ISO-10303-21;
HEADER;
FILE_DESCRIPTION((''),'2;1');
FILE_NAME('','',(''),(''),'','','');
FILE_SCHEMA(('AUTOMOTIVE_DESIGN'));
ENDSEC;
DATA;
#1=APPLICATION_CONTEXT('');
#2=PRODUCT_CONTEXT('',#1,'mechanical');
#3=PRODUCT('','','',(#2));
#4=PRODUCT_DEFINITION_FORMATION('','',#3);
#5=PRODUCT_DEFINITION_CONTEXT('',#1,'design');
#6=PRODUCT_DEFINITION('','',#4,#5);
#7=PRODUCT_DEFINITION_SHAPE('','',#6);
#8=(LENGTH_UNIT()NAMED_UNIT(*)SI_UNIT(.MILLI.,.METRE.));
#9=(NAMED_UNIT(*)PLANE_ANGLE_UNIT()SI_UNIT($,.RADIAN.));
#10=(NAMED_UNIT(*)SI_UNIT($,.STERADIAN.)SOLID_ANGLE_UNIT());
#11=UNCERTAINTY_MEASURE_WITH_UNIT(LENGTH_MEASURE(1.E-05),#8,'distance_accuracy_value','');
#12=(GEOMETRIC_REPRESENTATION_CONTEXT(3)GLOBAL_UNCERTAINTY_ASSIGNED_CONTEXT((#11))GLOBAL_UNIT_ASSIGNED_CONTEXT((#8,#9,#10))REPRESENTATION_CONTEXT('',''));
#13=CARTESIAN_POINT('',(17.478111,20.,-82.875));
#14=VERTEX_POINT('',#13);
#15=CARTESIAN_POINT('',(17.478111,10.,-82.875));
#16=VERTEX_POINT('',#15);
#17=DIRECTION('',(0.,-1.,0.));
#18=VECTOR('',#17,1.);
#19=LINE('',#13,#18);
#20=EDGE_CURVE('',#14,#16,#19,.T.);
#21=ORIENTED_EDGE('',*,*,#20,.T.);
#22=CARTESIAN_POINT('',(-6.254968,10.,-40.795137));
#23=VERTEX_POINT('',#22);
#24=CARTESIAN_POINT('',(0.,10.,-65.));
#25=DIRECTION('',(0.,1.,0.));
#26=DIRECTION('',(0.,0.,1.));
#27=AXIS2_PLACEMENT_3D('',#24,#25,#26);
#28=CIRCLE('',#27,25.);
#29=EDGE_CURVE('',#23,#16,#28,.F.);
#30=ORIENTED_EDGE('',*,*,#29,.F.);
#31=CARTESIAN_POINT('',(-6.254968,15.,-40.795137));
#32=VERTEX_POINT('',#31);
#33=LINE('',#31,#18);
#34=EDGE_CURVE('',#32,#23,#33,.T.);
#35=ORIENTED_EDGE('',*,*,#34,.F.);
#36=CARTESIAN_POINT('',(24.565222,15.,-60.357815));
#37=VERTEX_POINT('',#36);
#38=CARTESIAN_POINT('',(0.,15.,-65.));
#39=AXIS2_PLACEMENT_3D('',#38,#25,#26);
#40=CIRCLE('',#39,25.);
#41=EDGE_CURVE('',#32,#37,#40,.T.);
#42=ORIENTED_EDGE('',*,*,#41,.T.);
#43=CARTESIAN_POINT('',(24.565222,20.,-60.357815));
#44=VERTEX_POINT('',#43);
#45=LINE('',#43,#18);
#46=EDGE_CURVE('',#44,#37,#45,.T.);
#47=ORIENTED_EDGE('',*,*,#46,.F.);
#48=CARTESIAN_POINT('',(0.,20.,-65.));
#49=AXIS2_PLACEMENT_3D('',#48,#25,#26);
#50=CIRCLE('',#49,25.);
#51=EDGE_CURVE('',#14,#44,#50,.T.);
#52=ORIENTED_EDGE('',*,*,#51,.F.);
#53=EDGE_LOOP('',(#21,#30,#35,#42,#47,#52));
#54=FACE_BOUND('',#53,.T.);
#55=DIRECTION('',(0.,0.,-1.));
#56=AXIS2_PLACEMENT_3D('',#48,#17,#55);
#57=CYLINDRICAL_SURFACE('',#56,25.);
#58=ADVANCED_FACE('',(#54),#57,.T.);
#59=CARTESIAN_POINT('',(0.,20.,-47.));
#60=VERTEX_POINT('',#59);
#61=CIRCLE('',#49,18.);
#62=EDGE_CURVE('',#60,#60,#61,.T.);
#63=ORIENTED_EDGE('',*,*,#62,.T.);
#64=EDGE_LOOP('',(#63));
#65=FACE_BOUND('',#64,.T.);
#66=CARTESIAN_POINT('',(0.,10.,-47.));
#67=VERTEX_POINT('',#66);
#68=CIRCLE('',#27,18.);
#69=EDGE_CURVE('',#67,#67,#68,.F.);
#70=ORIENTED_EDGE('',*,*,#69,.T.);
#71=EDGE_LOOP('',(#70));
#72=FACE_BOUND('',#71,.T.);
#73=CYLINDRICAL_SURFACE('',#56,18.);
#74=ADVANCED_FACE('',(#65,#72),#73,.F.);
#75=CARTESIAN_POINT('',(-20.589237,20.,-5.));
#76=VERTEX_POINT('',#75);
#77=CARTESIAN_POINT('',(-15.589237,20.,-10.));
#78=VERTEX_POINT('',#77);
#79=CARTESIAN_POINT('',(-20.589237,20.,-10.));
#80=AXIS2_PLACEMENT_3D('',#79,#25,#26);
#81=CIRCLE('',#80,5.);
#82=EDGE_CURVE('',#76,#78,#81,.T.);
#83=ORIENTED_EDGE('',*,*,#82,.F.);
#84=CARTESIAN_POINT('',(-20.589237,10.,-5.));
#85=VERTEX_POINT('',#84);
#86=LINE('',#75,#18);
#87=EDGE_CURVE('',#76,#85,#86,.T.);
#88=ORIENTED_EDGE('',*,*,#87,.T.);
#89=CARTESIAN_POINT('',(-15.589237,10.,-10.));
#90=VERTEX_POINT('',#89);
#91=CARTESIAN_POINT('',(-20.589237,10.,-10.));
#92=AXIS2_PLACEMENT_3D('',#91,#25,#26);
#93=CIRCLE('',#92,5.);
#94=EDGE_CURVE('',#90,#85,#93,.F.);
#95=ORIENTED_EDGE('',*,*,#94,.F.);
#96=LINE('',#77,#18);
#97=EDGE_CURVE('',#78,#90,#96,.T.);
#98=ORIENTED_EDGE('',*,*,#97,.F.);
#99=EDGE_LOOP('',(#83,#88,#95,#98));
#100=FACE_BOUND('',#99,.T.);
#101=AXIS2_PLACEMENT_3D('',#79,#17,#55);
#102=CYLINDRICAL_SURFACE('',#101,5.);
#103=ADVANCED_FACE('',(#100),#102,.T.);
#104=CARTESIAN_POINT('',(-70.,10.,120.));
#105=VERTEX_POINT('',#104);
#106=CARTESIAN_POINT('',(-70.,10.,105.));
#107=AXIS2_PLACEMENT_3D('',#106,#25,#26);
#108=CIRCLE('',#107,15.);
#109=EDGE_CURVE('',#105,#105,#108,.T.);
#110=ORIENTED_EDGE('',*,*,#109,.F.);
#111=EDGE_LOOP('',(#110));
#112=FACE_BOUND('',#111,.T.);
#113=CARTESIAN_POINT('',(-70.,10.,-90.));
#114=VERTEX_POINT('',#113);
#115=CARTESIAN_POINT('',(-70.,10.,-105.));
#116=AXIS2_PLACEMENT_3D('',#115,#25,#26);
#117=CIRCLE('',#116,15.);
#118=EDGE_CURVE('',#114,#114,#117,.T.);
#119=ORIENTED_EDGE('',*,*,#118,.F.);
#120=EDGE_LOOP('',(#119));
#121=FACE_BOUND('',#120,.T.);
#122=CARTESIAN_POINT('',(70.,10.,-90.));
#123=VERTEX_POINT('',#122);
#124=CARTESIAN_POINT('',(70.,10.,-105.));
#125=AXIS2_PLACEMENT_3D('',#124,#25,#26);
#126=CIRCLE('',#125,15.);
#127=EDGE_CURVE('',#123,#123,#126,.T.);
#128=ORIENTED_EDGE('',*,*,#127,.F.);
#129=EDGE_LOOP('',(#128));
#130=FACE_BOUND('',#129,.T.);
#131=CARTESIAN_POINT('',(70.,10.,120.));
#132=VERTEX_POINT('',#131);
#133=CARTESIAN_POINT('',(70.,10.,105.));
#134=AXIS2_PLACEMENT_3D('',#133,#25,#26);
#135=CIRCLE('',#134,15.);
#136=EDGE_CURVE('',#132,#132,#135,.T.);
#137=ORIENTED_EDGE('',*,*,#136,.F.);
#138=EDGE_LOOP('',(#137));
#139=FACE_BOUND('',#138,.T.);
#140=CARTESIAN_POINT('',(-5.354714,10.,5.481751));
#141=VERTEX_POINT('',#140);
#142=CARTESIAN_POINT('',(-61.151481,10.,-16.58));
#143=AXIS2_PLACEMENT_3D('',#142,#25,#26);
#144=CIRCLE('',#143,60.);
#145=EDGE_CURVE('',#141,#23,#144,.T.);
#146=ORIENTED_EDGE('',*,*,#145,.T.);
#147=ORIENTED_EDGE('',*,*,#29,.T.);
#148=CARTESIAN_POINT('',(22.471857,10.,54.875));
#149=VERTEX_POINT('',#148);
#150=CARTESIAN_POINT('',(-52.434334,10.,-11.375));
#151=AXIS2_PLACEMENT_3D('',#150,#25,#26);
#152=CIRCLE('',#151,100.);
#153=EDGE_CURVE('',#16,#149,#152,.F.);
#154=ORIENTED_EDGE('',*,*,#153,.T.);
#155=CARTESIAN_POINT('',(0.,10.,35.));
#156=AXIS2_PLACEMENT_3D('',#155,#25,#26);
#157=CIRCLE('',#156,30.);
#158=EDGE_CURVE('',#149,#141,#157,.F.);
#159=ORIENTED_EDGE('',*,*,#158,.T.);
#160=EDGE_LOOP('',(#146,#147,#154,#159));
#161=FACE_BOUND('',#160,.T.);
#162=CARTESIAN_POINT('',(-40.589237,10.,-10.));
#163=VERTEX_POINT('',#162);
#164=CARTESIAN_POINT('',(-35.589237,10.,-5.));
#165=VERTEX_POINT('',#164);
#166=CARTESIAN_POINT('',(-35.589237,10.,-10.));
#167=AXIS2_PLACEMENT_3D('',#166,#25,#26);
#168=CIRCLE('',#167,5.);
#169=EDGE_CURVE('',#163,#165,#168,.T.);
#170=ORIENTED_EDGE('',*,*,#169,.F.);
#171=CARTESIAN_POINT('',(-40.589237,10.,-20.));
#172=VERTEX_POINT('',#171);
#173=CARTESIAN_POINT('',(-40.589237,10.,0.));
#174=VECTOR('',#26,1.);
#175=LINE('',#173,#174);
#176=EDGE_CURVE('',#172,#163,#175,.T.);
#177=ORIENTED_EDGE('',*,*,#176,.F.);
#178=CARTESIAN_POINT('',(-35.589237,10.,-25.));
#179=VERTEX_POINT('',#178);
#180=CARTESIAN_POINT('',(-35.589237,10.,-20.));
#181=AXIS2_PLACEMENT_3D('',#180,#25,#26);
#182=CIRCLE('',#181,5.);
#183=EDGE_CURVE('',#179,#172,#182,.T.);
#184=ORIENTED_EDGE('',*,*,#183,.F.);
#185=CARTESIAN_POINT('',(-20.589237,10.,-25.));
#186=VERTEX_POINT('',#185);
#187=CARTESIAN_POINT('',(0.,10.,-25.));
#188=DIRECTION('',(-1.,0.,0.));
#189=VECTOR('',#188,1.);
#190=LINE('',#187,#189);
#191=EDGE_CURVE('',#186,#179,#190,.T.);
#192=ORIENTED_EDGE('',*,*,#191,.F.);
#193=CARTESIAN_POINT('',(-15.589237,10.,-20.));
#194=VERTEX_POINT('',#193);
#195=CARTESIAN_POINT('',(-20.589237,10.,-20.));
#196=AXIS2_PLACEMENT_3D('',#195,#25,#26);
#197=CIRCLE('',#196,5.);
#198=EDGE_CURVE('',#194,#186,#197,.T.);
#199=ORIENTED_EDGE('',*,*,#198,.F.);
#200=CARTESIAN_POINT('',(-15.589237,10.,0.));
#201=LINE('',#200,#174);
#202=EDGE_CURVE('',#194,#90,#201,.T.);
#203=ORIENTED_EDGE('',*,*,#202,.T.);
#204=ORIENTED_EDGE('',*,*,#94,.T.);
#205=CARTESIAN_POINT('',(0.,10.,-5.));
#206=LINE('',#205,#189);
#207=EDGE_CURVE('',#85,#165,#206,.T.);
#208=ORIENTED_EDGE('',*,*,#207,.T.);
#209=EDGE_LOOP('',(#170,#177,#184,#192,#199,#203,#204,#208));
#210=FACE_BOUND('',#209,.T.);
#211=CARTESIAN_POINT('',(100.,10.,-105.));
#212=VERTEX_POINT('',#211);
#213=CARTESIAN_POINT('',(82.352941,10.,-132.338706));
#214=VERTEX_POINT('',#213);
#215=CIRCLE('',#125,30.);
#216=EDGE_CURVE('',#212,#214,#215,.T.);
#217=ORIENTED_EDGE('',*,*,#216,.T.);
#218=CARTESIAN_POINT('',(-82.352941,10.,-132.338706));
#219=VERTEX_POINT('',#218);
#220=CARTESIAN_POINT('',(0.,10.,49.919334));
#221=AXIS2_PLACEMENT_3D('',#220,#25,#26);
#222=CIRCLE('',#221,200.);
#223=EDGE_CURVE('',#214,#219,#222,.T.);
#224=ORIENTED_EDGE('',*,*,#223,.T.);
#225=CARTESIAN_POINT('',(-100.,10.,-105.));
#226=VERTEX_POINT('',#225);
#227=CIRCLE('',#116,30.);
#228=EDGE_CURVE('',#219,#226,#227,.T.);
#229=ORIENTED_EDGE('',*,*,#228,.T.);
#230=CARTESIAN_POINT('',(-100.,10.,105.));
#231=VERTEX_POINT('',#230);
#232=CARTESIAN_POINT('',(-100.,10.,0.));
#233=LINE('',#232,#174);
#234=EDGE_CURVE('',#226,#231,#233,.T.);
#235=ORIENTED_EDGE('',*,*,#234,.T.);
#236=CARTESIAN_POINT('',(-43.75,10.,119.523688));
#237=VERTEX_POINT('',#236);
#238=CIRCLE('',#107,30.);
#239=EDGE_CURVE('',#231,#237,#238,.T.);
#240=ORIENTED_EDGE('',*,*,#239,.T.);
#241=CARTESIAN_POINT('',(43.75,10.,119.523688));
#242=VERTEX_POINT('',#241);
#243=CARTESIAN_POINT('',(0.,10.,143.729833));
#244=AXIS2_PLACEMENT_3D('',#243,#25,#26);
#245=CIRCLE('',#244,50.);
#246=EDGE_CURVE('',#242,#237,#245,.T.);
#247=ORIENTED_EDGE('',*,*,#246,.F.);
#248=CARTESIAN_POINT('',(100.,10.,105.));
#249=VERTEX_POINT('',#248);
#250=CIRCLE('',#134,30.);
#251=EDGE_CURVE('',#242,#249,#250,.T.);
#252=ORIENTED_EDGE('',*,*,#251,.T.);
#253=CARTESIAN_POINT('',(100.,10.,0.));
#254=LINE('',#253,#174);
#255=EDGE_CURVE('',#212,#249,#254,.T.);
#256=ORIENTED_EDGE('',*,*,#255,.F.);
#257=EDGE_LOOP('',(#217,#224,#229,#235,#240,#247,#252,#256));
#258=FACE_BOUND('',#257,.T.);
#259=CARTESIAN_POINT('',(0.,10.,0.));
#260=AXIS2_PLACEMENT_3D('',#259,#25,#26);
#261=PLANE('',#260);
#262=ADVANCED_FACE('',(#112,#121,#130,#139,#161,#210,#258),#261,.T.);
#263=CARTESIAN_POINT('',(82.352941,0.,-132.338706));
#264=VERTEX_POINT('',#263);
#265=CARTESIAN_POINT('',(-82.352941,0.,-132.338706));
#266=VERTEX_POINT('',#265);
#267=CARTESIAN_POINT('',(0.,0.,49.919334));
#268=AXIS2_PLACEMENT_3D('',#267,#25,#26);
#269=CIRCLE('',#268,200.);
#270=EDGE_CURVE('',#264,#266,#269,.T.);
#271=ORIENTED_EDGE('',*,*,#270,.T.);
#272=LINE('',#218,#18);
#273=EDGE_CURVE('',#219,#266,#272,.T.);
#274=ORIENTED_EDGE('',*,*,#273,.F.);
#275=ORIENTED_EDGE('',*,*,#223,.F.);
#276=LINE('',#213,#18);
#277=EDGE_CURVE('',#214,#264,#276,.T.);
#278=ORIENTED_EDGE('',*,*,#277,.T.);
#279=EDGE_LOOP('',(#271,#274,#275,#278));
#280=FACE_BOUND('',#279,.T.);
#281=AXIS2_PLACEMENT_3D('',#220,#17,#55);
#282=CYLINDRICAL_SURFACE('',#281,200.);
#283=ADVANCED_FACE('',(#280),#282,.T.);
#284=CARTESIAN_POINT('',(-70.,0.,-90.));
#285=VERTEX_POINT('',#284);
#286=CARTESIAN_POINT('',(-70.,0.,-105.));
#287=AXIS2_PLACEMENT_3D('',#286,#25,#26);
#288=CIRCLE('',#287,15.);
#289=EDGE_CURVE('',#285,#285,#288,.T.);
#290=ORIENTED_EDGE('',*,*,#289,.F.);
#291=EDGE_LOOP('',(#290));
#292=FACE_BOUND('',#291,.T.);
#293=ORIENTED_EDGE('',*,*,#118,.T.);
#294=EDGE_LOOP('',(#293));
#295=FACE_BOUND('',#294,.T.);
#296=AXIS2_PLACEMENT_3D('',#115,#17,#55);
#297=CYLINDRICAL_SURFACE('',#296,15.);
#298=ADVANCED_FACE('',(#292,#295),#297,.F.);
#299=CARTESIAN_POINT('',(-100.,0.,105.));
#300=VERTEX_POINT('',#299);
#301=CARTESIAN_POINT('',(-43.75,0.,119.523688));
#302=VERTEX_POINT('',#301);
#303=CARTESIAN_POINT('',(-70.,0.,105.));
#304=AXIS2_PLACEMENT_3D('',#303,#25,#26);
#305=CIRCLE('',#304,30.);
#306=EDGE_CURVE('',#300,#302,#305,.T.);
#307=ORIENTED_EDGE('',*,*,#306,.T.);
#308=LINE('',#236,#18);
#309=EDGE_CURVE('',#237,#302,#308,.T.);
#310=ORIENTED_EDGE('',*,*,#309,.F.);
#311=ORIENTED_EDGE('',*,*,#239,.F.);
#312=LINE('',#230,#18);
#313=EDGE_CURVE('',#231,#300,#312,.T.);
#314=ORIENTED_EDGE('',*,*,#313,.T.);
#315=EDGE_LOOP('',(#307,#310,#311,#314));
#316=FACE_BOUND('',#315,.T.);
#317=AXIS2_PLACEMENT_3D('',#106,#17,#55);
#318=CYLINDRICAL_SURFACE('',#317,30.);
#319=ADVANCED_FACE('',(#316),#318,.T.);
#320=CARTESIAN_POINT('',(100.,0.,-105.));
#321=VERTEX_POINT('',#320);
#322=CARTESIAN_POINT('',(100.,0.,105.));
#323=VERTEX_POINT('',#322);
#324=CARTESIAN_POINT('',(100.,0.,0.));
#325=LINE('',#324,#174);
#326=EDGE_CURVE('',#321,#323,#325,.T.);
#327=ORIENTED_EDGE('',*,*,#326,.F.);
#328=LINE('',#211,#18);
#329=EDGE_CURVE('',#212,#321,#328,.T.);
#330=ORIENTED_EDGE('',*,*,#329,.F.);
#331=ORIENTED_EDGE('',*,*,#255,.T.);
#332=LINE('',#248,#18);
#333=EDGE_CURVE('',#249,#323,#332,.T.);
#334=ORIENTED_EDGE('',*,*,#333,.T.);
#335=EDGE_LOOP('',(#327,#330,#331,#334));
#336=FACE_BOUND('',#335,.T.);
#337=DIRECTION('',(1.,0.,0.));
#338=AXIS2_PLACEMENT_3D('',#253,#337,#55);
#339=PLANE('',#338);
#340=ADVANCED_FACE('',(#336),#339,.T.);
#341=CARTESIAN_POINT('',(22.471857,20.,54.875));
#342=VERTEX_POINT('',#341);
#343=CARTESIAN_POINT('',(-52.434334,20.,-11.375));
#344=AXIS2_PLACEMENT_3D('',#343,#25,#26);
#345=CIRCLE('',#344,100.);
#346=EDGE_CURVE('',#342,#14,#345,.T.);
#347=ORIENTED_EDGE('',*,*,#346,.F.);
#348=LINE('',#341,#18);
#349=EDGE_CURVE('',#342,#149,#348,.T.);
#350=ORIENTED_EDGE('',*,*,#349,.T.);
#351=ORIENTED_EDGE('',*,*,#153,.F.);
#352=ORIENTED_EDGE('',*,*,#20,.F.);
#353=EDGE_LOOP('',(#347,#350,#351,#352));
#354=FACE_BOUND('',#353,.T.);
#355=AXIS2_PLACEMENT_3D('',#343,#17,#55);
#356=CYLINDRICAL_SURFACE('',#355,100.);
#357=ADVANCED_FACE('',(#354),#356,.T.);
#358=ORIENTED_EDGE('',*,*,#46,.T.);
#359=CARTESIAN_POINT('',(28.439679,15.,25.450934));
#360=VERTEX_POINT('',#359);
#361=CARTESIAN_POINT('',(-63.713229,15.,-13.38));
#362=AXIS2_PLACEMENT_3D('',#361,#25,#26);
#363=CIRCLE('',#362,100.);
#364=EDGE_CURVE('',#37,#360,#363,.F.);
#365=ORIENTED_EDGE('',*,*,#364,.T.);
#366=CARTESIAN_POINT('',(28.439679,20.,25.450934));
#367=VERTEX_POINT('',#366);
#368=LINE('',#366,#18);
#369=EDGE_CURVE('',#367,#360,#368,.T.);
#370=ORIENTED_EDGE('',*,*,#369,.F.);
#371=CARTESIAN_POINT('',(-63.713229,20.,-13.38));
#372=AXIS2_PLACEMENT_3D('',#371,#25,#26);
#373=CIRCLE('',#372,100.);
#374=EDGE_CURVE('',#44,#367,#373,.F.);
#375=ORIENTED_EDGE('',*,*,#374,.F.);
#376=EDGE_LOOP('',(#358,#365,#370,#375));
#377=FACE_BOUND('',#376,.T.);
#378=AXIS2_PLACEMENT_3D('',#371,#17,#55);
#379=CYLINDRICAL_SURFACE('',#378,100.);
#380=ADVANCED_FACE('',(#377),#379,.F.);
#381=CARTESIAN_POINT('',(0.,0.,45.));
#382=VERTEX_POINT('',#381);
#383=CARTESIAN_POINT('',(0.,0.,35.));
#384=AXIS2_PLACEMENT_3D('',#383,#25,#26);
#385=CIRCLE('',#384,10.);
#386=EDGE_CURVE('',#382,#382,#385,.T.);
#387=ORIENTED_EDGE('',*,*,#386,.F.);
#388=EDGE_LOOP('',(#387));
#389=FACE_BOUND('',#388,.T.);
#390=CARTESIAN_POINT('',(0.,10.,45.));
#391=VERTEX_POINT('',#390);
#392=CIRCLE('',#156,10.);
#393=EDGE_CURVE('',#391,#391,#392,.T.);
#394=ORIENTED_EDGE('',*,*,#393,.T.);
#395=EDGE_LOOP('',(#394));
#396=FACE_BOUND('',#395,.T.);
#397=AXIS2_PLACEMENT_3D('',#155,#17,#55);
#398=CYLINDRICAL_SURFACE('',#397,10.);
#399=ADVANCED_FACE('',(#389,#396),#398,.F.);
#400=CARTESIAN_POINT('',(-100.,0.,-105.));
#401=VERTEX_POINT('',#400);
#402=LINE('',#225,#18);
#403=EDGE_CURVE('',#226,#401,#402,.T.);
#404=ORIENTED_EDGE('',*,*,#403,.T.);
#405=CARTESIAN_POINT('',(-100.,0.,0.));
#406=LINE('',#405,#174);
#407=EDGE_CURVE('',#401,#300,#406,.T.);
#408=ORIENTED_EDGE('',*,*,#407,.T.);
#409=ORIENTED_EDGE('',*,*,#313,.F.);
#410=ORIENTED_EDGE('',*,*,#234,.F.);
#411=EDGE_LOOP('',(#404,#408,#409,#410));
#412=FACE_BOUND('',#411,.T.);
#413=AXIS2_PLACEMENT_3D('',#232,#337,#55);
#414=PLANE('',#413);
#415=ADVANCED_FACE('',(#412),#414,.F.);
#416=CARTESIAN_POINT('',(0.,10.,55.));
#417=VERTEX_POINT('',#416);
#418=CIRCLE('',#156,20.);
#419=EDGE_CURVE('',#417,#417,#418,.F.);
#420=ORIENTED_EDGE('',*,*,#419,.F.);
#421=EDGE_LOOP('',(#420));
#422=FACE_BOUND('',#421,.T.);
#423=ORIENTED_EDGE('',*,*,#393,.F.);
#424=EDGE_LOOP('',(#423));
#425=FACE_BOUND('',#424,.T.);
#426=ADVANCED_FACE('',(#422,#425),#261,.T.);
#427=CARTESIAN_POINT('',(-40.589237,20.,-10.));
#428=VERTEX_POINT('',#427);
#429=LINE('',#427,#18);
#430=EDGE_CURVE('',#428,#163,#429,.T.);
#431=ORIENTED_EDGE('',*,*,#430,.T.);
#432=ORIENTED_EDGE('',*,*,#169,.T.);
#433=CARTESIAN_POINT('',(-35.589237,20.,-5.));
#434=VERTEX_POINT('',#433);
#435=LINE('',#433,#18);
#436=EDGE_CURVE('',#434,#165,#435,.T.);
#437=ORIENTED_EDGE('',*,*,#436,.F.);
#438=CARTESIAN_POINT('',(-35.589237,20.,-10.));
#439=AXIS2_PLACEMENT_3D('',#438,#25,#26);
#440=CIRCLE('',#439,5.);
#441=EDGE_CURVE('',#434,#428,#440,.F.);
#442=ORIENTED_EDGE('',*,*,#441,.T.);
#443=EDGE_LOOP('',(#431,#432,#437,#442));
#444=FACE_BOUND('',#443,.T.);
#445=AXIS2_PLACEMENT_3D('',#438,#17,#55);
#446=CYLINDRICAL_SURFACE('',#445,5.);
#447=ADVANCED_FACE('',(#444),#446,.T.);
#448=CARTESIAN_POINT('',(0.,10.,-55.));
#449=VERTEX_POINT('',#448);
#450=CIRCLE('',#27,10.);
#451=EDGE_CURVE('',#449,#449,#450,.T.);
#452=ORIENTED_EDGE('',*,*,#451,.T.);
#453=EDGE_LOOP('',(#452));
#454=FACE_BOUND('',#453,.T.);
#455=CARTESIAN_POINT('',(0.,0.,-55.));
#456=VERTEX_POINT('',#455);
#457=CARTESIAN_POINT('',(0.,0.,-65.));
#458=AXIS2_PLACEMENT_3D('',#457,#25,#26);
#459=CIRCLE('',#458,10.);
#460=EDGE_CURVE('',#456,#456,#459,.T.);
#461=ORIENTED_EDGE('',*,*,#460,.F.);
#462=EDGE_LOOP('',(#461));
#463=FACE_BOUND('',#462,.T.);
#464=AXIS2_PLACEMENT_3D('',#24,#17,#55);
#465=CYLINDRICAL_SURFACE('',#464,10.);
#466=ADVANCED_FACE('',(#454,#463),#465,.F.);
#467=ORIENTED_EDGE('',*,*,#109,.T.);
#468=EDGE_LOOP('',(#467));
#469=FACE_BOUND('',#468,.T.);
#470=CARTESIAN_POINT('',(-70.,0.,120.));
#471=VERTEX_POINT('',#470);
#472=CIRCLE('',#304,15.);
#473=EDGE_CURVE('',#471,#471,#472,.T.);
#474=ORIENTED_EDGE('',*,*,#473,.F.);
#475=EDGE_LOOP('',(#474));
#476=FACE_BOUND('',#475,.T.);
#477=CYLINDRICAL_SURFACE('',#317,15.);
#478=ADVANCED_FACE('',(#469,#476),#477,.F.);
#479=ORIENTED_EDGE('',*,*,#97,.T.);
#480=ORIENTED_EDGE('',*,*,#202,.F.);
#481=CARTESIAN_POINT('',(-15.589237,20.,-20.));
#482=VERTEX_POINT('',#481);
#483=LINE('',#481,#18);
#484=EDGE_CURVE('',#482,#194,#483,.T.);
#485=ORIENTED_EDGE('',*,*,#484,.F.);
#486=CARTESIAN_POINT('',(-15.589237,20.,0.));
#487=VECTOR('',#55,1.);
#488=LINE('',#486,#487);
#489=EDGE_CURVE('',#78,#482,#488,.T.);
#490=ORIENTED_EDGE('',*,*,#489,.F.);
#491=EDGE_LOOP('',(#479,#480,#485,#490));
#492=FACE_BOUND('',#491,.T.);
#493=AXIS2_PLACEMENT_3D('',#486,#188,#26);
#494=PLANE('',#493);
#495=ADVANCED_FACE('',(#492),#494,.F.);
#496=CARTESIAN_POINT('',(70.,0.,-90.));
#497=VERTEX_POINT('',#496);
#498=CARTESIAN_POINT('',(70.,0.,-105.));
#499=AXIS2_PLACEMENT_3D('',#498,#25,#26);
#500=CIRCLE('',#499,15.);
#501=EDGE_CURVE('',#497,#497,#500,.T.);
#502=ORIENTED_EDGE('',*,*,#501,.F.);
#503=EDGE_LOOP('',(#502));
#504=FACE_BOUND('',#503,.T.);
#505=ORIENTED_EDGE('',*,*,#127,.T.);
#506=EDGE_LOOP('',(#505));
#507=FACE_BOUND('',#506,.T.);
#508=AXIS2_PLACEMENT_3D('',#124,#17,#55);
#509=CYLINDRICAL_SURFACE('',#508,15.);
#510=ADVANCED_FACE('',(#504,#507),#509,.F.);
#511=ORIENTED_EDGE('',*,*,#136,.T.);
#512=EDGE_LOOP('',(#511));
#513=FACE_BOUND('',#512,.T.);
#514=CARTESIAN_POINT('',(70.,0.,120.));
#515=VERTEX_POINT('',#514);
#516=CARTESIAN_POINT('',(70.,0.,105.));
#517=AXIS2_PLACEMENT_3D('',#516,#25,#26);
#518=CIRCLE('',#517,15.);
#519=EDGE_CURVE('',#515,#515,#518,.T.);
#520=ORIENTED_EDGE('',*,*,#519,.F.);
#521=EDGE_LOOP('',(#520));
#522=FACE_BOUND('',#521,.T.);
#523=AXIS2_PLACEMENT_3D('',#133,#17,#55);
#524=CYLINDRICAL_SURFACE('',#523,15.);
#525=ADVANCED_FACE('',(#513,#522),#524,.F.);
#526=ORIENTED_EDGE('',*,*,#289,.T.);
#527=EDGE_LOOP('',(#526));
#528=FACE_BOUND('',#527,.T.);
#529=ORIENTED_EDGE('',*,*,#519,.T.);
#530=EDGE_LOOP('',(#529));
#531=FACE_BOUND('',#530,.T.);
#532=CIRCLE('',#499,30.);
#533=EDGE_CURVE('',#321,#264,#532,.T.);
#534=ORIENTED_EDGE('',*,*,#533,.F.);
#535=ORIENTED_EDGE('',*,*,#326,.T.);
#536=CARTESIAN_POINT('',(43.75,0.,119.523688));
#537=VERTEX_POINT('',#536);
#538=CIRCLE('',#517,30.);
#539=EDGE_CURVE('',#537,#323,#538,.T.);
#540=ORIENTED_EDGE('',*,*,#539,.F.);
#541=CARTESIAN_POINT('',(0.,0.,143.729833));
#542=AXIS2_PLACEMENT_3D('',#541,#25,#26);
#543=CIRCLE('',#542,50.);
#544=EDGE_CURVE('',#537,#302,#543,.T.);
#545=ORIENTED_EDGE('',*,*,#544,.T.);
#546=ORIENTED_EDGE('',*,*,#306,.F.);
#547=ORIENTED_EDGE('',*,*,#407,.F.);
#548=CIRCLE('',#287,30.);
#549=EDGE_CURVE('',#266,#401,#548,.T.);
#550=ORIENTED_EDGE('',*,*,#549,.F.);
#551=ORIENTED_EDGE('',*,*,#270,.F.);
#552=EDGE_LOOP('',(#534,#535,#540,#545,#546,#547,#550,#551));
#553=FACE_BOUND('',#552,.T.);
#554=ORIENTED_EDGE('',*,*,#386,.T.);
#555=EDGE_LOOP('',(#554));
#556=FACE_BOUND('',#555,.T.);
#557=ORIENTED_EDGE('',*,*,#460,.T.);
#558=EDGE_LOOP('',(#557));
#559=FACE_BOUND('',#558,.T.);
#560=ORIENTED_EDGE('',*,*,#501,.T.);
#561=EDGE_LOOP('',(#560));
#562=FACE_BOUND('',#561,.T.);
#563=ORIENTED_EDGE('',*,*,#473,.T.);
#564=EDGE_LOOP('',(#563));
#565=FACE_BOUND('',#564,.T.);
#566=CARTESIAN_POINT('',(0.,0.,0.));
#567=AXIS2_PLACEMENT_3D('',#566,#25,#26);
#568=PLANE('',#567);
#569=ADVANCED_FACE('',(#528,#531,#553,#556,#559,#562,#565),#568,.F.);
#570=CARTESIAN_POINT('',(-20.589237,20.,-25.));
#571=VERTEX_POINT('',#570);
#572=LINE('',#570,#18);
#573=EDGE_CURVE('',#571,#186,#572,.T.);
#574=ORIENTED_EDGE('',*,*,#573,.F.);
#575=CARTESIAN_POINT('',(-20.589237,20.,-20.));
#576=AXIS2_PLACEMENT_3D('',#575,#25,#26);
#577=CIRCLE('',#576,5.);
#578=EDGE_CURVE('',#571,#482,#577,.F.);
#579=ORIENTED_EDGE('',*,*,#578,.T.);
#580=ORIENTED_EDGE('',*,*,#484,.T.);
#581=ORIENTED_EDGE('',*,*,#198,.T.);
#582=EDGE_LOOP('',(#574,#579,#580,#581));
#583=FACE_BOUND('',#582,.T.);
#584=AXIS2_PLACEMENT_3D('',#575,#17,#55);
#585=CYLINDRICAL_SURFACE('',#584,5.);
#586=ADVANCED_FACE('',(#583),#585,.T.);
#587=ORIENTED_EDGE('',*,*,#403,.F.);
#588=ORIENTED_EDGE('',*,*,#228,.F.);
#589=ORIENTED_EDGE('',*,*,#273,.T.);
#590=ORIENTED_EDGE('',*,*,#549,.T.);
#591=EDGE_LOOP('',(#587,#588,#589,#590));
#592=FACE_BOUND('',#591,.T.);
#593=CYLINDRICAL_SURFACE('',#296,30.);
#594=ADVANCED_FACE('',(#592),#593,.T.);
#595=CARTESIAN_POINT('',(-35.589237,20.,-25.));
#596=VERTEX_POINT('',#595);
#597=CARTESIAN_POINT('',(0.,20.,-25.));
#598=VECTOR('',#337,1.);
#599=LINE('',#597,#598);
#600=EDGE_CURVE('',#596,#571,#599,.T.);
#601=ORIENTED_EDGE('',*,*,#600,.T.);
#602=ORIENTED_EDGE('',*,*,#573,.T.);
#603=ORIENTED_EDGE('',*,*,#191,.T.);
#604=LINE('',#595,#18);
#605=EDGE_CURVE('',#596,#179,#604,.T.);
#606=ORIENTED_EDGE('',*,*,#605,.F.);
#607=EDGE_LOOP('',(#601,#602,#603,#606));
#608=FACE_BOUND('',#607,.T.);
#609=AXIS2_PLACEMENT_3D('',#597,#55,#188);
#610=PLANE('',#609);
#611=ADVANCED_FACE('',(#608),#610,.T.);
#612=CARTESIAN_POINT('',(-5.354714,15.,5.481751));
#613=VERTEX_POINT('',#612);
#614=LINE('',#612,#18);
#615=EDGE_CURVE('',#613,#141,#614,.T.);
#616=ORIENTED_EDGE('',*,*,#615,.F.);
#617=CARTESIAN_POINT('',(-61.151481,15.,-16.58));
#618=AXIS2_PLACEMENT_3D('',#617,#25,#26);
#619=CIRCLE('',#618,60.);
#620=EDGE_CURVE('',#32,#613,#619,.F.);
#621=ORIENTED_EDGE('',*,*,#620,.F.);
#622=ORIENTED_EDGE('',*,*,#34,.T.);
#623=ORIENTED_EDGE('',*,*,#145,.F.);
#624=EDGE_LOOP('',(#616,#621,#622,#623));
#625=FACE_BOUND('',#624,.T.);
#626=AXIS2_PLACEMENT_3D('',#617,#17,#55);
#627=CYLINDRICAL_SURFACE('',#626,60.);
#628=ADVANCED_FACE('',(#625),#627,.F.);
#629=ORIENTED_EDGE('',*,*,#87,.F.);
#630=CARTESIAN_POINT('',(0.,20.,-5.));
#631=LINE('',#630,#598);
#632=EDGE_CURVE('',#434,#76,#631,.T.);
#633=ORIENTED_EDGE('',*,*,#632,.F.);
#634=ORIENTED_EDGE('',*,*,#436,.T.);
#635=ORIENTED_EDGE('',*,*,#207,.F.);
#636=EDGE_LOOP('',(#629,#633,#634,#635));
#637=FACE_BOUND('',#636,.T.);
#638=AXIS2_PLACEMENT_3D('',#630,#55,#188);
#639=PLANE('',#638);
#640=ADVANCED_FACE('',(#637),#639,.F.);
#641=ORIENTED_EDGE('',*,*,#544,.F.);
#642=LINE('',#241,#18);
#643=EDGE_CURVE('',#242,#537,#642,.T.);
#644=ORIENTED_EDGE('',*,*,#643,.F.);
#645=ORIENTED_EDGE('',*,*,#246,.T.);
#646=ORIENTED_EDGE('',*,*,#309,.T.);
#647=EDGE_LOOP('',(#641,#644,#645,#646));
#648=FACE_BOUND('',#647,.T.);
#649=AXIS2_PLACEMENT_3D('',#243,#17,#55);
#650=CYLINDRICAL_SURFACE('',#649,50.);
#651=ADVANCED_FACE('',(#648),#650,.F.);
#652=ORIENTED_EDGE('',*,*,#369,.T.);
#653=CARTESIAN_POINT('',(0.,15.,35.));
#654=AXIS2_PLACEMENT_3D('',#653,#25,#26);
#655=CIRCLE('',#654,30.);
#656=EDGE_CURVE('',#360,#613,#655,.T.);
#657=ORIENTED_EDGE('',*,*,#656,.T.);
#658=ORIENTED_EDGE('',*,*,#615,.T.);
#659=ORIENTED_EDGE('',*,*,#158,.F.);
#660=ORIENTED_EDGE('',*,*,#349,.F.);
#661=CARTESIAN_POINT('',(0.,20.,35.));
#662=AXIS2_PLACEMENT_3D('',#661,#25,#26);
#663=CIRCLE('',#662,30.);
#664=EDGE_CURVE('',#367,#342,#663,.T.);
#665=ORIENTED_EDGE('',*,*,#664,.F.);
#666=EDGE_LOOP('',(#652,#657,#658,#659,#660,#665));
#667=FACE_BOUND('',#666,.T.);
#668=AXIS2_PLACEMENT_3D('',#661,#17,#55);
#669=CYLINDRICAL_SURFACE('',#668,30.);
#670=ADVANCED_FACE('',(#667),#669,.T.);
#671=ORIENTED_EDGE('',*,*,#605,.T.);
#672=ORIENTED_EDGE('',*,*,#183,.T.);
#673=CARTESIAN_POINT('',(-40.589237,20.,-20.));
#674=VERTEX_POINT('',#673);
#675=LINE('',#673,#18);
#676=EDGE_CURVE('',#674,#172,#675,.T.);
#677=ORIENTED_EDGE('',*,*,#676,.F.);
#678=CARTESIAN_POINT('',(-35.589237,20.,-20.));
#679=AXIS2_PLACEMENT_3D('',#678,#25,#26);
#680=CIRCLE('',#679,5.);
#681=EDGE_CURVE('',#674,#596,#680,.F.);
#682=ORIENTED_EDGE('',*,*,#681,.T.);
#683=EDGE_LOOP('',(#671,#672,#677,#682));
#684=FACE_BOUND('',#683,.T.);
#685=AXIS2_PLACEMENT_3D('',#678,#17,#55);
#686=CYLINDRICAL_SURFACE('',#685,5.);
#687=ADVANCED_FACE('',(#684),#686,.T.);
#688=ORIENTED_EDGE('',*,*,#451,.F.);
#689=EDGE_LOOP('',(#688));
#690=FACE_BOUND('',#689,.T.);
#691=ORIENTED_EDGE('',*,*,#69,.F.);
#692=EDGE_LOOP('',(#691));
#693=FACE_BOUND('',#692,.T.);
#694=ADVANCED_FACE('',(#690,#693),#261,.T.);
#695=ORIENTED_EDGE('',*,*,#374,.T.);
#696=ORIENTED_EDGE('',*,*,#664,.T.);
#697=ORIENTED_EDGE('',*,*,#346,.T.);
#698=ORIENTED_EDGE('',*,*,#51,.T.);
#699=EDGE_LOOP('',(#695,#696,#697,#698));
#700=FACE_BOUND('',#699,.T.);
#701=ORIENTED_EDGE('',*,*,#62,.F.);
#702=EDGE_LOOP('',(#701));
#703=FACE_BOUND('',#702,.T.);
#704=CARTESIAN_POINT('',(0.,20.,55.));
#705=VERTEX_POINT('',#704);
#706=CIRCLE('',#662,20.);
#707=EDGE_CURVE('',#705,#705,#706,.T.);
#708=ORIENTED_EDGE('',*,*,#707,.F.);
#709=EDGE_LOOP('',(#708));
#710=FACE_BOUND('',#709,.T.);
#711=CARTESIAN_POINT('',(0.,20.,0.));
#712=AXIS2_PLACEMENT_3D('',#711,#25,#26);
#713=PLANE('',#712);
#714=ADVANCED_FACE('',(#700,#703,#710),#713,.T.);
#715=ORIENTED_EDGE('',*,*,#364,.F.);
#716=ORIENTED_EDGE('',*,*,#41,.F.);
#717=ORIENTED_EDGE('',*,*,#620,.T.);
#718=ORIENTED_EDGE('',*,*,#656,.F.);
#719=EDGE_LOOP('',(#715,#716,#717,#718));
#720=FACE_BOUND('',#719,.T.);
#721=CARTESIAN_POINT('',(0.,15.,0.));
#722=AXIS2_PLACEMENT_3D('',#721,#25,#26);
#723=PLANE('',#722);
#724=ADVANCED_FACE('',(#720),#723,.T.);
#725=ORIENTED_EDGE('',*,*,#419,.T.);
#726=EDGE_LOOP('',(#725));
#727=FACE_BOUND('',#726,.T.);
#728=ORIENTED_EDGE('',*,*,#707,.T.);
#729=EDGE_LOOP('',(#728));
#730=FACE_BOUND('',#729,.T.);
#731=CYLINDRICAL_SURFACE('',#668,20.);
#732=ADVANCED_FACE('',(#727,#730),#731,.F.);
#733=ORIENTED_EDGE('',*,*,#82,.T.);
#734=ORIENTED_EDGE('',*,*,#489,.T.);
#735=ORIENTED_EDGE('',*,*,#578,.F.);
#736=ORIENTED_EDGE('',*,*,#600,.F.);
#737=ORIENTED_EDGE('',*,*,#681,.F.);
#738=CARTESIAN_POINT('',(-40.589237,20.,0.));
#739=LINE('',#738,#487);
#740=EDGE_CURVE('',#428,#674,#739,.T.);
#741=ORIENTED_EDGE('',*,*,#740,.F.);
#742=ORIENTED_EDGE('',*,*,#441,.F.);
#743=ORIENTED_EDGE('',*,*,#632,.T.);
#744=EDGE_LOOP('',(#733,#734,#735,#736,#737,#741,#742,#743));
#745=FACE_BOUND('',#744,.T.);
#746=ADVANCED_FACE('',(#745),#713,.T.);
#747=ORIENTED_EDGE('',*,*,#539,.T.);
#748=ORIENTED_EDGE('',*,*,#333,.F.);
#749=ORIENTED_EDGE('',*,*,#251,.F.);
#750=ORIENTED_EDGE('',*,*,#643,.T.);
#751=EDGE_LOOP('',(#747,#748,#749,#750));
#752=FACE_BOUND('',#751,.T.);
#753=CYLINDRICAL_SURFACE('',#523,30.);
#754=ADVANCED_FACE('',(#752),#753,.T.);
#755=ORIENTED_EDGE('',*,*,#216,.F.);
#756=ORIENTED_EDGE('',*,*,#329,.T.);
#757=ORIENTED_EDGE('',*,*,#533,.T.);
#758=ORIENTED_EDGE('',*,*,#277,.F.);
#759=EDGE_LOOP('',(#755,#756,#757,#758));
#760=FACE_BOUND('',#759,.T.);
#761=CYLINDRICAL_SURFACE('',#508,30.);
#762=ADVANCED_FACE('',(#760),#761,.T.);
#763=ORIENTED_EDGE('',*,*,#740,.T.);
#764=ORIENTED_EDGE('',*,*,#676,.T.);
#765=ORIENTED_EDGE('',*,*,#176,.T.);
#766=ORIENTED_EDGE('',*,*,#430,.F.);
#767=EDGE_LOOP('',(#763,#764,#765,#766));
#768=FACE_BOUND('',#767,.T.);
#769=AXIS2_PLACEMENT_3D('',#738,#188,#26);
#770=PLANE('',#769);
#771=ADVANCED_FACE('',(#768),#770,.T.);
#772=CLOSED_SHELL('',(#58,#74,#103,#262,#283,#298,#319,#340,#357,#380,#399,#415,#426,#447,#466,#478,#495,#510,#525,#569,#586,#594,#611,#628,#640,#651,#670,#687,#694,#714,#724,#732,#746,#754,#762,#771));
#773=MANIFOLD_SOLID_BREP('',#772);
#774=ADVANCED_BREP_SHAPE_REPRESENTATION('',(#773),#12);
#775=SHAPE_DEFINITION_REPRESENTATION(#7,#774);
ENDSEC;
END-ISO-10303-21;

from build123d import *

# Parameters (mm, degrees)
SKETCH1_R           = 15
SKETCH1_R_2         = 10
BOSS_EXTRUDE1_DEPTH = 10
SKETCH1_3_R         = 20
SKETCH1_3_R_2       = 18
BOSS_EXTRUDE2_DEPTH = 20
BOSS_EXTRUDE3_DEPTH = 15


with BuildPart() as part:
    # Sketch1 → Boss-Extrude1 (new body)
    with BuildSketch(Plane(origin=(0, 0, 0), x_dir=(1, 0, 0), z_dir=(0, 1, 0))):
        with BuildLine():
            Line((-100, 105), (-100, -105))
            ThreePointArc((-100, -105), (-77.5, -134.047375097), (-43.75, -119.523687548))
            ThreePointArc((-43.75, -119.523687548), (0, -93.729833462), (43.75, -119.523687548))
            ThreePointArc((43.75, -119.523687548), (77.5, -134.047375097), (100, -105))
            Line((100, -105), (100, 105))
            ThreePointArc((100, 105), (95.205041513, 121.269784336), (82.352941176, 132.338705973))
            ThreePointArc((82.352941176, 132.338705973), (0, 150.080666152), (-82.352941176, 132.338705973))
            ThreePointArc((-82.352941176, 132.338705973), (-95.205041513, 121.269784336), (-100, 105))
        make_face()
        with Locations((-70, 105)):
            Circle(SKETCH1_R, mode=Mode.SUBTRACT)
        with Locations((-70, -105)):
            Circle(SKETCH1_R, mode=Mode.SUBTRACT)
        with Locations((70, 105)):
            Circle(SKETCH1_R, mode=Mode.SUBTRACT)
        with Locations((70, -105)):
            Circle(SKETCH1_R, mode=Mode.SUBTRACT)
        with Locations((0, -35)):
            Circle(SKETCH1_R_2, mode=Mode.SUBTRACT)
        with Locations((0, 65)):
            Circle(SKETCH1_R_2, mode=Mode.SUBTRACT)
    extrude(amount=BOSS_EXTRUDE1_DEPTH)

    # Sketch1<3> → Boss-Extrude2 (add)
    # profile 1 of 2: a face of its own
    with BuildSketch(Plane(origin=(0, 0, 0), x_dir=(1, 0, 0), z_dir=(0, 1, 0))):
        with BuildLine():
            ThreePointArc((-40.589236585, 10), (-39.124770491, 6.464466094), (-35.589236585, 5))
            Line((-35.589236585, 5), (-20.589236585, 5))
            ThreePointArc((-20.589236585, 5), (-17.053702679, 6.464466094), (-15.589236585, 10))
            Line((-15.589236585, 10), (-15.589236585, 20))
            ThreePointArc((-15.589236585, 20), (-17.053702679, 23.535533906), (-20.589236585, 25))
            Line((-20.589236585, 25), (-35.589236585, 25))
            ThreePointArc((-35.589236585, 25), (-39.124770491, 23.535533906), (-40.589236585, 20))
            Line((-40.589236585, 20), (-40.589236585, 10))
        make_face()
    # profile 2 of 2: a face of its own
    with BuildSketch(Plane(origin=(0, 0, 0), x_dir=(1, 0, 0), z_dir=(0, 1, 0))):
        with BuildLine():
            ThreePointArc((28.439679063, -25.450934351), (-29.401361297, -29.036783258), (22.4718574, -54.875))
            ThreePointArc((22.4718574, -54.875), (47.50001952, 14.997844187), (17.478111311, 82.875))
            ThreePointArc((17.478111311, 82.875), (-23.846726615, 57.494426755), (24.565221674, 60.357814729))
            ThreePointArc((24.565221674, 60.357814729), (36.184989958, 17.890628558), (28.439679063, -25.450934351))
        make_face()
        with Locations((0, -35)):
            Circle(SKETCH1_3_R, mode=Mode.SUBTRACT)
        with Locations((0, 65)):
            Circle(SKETCH1_3_R_2, mode=Mode.SUBTRACT)
    extrude(amount=BOSS_EXTRUDE2_DEPTH)

    # Sketch1<4> → Boss-Extrude3 (add)
    with BuildSketch(Plane(origin=(0, 0, 0), x_dir=(1, 0, 0), z_dir=(0, 1, 0))):
        with BuildLine():
            ThreePointArc((-6.254967912, 40.795137339), (-1.162830862, 17.74699723), (-5.354714274, -5.481750813))
            ThreePointArc((-5.354714274, -5.481750813), (15.261748675, -9.172126929), (28.439679063, -25.450934351))
            ThreePointArc((28.439679063, -25.450934351), (36.184989958, 17.890628558), (24.565221674, 60.357814729))
            ThreePointArc((24.565221674, 60.357814729), (13.397422695, 43.892914338), (-6.254967912, 40.795137339))
        make_face()
    extrude(amount=BOSS_EXTRUDE3_DEPTH)


solid = part.part
